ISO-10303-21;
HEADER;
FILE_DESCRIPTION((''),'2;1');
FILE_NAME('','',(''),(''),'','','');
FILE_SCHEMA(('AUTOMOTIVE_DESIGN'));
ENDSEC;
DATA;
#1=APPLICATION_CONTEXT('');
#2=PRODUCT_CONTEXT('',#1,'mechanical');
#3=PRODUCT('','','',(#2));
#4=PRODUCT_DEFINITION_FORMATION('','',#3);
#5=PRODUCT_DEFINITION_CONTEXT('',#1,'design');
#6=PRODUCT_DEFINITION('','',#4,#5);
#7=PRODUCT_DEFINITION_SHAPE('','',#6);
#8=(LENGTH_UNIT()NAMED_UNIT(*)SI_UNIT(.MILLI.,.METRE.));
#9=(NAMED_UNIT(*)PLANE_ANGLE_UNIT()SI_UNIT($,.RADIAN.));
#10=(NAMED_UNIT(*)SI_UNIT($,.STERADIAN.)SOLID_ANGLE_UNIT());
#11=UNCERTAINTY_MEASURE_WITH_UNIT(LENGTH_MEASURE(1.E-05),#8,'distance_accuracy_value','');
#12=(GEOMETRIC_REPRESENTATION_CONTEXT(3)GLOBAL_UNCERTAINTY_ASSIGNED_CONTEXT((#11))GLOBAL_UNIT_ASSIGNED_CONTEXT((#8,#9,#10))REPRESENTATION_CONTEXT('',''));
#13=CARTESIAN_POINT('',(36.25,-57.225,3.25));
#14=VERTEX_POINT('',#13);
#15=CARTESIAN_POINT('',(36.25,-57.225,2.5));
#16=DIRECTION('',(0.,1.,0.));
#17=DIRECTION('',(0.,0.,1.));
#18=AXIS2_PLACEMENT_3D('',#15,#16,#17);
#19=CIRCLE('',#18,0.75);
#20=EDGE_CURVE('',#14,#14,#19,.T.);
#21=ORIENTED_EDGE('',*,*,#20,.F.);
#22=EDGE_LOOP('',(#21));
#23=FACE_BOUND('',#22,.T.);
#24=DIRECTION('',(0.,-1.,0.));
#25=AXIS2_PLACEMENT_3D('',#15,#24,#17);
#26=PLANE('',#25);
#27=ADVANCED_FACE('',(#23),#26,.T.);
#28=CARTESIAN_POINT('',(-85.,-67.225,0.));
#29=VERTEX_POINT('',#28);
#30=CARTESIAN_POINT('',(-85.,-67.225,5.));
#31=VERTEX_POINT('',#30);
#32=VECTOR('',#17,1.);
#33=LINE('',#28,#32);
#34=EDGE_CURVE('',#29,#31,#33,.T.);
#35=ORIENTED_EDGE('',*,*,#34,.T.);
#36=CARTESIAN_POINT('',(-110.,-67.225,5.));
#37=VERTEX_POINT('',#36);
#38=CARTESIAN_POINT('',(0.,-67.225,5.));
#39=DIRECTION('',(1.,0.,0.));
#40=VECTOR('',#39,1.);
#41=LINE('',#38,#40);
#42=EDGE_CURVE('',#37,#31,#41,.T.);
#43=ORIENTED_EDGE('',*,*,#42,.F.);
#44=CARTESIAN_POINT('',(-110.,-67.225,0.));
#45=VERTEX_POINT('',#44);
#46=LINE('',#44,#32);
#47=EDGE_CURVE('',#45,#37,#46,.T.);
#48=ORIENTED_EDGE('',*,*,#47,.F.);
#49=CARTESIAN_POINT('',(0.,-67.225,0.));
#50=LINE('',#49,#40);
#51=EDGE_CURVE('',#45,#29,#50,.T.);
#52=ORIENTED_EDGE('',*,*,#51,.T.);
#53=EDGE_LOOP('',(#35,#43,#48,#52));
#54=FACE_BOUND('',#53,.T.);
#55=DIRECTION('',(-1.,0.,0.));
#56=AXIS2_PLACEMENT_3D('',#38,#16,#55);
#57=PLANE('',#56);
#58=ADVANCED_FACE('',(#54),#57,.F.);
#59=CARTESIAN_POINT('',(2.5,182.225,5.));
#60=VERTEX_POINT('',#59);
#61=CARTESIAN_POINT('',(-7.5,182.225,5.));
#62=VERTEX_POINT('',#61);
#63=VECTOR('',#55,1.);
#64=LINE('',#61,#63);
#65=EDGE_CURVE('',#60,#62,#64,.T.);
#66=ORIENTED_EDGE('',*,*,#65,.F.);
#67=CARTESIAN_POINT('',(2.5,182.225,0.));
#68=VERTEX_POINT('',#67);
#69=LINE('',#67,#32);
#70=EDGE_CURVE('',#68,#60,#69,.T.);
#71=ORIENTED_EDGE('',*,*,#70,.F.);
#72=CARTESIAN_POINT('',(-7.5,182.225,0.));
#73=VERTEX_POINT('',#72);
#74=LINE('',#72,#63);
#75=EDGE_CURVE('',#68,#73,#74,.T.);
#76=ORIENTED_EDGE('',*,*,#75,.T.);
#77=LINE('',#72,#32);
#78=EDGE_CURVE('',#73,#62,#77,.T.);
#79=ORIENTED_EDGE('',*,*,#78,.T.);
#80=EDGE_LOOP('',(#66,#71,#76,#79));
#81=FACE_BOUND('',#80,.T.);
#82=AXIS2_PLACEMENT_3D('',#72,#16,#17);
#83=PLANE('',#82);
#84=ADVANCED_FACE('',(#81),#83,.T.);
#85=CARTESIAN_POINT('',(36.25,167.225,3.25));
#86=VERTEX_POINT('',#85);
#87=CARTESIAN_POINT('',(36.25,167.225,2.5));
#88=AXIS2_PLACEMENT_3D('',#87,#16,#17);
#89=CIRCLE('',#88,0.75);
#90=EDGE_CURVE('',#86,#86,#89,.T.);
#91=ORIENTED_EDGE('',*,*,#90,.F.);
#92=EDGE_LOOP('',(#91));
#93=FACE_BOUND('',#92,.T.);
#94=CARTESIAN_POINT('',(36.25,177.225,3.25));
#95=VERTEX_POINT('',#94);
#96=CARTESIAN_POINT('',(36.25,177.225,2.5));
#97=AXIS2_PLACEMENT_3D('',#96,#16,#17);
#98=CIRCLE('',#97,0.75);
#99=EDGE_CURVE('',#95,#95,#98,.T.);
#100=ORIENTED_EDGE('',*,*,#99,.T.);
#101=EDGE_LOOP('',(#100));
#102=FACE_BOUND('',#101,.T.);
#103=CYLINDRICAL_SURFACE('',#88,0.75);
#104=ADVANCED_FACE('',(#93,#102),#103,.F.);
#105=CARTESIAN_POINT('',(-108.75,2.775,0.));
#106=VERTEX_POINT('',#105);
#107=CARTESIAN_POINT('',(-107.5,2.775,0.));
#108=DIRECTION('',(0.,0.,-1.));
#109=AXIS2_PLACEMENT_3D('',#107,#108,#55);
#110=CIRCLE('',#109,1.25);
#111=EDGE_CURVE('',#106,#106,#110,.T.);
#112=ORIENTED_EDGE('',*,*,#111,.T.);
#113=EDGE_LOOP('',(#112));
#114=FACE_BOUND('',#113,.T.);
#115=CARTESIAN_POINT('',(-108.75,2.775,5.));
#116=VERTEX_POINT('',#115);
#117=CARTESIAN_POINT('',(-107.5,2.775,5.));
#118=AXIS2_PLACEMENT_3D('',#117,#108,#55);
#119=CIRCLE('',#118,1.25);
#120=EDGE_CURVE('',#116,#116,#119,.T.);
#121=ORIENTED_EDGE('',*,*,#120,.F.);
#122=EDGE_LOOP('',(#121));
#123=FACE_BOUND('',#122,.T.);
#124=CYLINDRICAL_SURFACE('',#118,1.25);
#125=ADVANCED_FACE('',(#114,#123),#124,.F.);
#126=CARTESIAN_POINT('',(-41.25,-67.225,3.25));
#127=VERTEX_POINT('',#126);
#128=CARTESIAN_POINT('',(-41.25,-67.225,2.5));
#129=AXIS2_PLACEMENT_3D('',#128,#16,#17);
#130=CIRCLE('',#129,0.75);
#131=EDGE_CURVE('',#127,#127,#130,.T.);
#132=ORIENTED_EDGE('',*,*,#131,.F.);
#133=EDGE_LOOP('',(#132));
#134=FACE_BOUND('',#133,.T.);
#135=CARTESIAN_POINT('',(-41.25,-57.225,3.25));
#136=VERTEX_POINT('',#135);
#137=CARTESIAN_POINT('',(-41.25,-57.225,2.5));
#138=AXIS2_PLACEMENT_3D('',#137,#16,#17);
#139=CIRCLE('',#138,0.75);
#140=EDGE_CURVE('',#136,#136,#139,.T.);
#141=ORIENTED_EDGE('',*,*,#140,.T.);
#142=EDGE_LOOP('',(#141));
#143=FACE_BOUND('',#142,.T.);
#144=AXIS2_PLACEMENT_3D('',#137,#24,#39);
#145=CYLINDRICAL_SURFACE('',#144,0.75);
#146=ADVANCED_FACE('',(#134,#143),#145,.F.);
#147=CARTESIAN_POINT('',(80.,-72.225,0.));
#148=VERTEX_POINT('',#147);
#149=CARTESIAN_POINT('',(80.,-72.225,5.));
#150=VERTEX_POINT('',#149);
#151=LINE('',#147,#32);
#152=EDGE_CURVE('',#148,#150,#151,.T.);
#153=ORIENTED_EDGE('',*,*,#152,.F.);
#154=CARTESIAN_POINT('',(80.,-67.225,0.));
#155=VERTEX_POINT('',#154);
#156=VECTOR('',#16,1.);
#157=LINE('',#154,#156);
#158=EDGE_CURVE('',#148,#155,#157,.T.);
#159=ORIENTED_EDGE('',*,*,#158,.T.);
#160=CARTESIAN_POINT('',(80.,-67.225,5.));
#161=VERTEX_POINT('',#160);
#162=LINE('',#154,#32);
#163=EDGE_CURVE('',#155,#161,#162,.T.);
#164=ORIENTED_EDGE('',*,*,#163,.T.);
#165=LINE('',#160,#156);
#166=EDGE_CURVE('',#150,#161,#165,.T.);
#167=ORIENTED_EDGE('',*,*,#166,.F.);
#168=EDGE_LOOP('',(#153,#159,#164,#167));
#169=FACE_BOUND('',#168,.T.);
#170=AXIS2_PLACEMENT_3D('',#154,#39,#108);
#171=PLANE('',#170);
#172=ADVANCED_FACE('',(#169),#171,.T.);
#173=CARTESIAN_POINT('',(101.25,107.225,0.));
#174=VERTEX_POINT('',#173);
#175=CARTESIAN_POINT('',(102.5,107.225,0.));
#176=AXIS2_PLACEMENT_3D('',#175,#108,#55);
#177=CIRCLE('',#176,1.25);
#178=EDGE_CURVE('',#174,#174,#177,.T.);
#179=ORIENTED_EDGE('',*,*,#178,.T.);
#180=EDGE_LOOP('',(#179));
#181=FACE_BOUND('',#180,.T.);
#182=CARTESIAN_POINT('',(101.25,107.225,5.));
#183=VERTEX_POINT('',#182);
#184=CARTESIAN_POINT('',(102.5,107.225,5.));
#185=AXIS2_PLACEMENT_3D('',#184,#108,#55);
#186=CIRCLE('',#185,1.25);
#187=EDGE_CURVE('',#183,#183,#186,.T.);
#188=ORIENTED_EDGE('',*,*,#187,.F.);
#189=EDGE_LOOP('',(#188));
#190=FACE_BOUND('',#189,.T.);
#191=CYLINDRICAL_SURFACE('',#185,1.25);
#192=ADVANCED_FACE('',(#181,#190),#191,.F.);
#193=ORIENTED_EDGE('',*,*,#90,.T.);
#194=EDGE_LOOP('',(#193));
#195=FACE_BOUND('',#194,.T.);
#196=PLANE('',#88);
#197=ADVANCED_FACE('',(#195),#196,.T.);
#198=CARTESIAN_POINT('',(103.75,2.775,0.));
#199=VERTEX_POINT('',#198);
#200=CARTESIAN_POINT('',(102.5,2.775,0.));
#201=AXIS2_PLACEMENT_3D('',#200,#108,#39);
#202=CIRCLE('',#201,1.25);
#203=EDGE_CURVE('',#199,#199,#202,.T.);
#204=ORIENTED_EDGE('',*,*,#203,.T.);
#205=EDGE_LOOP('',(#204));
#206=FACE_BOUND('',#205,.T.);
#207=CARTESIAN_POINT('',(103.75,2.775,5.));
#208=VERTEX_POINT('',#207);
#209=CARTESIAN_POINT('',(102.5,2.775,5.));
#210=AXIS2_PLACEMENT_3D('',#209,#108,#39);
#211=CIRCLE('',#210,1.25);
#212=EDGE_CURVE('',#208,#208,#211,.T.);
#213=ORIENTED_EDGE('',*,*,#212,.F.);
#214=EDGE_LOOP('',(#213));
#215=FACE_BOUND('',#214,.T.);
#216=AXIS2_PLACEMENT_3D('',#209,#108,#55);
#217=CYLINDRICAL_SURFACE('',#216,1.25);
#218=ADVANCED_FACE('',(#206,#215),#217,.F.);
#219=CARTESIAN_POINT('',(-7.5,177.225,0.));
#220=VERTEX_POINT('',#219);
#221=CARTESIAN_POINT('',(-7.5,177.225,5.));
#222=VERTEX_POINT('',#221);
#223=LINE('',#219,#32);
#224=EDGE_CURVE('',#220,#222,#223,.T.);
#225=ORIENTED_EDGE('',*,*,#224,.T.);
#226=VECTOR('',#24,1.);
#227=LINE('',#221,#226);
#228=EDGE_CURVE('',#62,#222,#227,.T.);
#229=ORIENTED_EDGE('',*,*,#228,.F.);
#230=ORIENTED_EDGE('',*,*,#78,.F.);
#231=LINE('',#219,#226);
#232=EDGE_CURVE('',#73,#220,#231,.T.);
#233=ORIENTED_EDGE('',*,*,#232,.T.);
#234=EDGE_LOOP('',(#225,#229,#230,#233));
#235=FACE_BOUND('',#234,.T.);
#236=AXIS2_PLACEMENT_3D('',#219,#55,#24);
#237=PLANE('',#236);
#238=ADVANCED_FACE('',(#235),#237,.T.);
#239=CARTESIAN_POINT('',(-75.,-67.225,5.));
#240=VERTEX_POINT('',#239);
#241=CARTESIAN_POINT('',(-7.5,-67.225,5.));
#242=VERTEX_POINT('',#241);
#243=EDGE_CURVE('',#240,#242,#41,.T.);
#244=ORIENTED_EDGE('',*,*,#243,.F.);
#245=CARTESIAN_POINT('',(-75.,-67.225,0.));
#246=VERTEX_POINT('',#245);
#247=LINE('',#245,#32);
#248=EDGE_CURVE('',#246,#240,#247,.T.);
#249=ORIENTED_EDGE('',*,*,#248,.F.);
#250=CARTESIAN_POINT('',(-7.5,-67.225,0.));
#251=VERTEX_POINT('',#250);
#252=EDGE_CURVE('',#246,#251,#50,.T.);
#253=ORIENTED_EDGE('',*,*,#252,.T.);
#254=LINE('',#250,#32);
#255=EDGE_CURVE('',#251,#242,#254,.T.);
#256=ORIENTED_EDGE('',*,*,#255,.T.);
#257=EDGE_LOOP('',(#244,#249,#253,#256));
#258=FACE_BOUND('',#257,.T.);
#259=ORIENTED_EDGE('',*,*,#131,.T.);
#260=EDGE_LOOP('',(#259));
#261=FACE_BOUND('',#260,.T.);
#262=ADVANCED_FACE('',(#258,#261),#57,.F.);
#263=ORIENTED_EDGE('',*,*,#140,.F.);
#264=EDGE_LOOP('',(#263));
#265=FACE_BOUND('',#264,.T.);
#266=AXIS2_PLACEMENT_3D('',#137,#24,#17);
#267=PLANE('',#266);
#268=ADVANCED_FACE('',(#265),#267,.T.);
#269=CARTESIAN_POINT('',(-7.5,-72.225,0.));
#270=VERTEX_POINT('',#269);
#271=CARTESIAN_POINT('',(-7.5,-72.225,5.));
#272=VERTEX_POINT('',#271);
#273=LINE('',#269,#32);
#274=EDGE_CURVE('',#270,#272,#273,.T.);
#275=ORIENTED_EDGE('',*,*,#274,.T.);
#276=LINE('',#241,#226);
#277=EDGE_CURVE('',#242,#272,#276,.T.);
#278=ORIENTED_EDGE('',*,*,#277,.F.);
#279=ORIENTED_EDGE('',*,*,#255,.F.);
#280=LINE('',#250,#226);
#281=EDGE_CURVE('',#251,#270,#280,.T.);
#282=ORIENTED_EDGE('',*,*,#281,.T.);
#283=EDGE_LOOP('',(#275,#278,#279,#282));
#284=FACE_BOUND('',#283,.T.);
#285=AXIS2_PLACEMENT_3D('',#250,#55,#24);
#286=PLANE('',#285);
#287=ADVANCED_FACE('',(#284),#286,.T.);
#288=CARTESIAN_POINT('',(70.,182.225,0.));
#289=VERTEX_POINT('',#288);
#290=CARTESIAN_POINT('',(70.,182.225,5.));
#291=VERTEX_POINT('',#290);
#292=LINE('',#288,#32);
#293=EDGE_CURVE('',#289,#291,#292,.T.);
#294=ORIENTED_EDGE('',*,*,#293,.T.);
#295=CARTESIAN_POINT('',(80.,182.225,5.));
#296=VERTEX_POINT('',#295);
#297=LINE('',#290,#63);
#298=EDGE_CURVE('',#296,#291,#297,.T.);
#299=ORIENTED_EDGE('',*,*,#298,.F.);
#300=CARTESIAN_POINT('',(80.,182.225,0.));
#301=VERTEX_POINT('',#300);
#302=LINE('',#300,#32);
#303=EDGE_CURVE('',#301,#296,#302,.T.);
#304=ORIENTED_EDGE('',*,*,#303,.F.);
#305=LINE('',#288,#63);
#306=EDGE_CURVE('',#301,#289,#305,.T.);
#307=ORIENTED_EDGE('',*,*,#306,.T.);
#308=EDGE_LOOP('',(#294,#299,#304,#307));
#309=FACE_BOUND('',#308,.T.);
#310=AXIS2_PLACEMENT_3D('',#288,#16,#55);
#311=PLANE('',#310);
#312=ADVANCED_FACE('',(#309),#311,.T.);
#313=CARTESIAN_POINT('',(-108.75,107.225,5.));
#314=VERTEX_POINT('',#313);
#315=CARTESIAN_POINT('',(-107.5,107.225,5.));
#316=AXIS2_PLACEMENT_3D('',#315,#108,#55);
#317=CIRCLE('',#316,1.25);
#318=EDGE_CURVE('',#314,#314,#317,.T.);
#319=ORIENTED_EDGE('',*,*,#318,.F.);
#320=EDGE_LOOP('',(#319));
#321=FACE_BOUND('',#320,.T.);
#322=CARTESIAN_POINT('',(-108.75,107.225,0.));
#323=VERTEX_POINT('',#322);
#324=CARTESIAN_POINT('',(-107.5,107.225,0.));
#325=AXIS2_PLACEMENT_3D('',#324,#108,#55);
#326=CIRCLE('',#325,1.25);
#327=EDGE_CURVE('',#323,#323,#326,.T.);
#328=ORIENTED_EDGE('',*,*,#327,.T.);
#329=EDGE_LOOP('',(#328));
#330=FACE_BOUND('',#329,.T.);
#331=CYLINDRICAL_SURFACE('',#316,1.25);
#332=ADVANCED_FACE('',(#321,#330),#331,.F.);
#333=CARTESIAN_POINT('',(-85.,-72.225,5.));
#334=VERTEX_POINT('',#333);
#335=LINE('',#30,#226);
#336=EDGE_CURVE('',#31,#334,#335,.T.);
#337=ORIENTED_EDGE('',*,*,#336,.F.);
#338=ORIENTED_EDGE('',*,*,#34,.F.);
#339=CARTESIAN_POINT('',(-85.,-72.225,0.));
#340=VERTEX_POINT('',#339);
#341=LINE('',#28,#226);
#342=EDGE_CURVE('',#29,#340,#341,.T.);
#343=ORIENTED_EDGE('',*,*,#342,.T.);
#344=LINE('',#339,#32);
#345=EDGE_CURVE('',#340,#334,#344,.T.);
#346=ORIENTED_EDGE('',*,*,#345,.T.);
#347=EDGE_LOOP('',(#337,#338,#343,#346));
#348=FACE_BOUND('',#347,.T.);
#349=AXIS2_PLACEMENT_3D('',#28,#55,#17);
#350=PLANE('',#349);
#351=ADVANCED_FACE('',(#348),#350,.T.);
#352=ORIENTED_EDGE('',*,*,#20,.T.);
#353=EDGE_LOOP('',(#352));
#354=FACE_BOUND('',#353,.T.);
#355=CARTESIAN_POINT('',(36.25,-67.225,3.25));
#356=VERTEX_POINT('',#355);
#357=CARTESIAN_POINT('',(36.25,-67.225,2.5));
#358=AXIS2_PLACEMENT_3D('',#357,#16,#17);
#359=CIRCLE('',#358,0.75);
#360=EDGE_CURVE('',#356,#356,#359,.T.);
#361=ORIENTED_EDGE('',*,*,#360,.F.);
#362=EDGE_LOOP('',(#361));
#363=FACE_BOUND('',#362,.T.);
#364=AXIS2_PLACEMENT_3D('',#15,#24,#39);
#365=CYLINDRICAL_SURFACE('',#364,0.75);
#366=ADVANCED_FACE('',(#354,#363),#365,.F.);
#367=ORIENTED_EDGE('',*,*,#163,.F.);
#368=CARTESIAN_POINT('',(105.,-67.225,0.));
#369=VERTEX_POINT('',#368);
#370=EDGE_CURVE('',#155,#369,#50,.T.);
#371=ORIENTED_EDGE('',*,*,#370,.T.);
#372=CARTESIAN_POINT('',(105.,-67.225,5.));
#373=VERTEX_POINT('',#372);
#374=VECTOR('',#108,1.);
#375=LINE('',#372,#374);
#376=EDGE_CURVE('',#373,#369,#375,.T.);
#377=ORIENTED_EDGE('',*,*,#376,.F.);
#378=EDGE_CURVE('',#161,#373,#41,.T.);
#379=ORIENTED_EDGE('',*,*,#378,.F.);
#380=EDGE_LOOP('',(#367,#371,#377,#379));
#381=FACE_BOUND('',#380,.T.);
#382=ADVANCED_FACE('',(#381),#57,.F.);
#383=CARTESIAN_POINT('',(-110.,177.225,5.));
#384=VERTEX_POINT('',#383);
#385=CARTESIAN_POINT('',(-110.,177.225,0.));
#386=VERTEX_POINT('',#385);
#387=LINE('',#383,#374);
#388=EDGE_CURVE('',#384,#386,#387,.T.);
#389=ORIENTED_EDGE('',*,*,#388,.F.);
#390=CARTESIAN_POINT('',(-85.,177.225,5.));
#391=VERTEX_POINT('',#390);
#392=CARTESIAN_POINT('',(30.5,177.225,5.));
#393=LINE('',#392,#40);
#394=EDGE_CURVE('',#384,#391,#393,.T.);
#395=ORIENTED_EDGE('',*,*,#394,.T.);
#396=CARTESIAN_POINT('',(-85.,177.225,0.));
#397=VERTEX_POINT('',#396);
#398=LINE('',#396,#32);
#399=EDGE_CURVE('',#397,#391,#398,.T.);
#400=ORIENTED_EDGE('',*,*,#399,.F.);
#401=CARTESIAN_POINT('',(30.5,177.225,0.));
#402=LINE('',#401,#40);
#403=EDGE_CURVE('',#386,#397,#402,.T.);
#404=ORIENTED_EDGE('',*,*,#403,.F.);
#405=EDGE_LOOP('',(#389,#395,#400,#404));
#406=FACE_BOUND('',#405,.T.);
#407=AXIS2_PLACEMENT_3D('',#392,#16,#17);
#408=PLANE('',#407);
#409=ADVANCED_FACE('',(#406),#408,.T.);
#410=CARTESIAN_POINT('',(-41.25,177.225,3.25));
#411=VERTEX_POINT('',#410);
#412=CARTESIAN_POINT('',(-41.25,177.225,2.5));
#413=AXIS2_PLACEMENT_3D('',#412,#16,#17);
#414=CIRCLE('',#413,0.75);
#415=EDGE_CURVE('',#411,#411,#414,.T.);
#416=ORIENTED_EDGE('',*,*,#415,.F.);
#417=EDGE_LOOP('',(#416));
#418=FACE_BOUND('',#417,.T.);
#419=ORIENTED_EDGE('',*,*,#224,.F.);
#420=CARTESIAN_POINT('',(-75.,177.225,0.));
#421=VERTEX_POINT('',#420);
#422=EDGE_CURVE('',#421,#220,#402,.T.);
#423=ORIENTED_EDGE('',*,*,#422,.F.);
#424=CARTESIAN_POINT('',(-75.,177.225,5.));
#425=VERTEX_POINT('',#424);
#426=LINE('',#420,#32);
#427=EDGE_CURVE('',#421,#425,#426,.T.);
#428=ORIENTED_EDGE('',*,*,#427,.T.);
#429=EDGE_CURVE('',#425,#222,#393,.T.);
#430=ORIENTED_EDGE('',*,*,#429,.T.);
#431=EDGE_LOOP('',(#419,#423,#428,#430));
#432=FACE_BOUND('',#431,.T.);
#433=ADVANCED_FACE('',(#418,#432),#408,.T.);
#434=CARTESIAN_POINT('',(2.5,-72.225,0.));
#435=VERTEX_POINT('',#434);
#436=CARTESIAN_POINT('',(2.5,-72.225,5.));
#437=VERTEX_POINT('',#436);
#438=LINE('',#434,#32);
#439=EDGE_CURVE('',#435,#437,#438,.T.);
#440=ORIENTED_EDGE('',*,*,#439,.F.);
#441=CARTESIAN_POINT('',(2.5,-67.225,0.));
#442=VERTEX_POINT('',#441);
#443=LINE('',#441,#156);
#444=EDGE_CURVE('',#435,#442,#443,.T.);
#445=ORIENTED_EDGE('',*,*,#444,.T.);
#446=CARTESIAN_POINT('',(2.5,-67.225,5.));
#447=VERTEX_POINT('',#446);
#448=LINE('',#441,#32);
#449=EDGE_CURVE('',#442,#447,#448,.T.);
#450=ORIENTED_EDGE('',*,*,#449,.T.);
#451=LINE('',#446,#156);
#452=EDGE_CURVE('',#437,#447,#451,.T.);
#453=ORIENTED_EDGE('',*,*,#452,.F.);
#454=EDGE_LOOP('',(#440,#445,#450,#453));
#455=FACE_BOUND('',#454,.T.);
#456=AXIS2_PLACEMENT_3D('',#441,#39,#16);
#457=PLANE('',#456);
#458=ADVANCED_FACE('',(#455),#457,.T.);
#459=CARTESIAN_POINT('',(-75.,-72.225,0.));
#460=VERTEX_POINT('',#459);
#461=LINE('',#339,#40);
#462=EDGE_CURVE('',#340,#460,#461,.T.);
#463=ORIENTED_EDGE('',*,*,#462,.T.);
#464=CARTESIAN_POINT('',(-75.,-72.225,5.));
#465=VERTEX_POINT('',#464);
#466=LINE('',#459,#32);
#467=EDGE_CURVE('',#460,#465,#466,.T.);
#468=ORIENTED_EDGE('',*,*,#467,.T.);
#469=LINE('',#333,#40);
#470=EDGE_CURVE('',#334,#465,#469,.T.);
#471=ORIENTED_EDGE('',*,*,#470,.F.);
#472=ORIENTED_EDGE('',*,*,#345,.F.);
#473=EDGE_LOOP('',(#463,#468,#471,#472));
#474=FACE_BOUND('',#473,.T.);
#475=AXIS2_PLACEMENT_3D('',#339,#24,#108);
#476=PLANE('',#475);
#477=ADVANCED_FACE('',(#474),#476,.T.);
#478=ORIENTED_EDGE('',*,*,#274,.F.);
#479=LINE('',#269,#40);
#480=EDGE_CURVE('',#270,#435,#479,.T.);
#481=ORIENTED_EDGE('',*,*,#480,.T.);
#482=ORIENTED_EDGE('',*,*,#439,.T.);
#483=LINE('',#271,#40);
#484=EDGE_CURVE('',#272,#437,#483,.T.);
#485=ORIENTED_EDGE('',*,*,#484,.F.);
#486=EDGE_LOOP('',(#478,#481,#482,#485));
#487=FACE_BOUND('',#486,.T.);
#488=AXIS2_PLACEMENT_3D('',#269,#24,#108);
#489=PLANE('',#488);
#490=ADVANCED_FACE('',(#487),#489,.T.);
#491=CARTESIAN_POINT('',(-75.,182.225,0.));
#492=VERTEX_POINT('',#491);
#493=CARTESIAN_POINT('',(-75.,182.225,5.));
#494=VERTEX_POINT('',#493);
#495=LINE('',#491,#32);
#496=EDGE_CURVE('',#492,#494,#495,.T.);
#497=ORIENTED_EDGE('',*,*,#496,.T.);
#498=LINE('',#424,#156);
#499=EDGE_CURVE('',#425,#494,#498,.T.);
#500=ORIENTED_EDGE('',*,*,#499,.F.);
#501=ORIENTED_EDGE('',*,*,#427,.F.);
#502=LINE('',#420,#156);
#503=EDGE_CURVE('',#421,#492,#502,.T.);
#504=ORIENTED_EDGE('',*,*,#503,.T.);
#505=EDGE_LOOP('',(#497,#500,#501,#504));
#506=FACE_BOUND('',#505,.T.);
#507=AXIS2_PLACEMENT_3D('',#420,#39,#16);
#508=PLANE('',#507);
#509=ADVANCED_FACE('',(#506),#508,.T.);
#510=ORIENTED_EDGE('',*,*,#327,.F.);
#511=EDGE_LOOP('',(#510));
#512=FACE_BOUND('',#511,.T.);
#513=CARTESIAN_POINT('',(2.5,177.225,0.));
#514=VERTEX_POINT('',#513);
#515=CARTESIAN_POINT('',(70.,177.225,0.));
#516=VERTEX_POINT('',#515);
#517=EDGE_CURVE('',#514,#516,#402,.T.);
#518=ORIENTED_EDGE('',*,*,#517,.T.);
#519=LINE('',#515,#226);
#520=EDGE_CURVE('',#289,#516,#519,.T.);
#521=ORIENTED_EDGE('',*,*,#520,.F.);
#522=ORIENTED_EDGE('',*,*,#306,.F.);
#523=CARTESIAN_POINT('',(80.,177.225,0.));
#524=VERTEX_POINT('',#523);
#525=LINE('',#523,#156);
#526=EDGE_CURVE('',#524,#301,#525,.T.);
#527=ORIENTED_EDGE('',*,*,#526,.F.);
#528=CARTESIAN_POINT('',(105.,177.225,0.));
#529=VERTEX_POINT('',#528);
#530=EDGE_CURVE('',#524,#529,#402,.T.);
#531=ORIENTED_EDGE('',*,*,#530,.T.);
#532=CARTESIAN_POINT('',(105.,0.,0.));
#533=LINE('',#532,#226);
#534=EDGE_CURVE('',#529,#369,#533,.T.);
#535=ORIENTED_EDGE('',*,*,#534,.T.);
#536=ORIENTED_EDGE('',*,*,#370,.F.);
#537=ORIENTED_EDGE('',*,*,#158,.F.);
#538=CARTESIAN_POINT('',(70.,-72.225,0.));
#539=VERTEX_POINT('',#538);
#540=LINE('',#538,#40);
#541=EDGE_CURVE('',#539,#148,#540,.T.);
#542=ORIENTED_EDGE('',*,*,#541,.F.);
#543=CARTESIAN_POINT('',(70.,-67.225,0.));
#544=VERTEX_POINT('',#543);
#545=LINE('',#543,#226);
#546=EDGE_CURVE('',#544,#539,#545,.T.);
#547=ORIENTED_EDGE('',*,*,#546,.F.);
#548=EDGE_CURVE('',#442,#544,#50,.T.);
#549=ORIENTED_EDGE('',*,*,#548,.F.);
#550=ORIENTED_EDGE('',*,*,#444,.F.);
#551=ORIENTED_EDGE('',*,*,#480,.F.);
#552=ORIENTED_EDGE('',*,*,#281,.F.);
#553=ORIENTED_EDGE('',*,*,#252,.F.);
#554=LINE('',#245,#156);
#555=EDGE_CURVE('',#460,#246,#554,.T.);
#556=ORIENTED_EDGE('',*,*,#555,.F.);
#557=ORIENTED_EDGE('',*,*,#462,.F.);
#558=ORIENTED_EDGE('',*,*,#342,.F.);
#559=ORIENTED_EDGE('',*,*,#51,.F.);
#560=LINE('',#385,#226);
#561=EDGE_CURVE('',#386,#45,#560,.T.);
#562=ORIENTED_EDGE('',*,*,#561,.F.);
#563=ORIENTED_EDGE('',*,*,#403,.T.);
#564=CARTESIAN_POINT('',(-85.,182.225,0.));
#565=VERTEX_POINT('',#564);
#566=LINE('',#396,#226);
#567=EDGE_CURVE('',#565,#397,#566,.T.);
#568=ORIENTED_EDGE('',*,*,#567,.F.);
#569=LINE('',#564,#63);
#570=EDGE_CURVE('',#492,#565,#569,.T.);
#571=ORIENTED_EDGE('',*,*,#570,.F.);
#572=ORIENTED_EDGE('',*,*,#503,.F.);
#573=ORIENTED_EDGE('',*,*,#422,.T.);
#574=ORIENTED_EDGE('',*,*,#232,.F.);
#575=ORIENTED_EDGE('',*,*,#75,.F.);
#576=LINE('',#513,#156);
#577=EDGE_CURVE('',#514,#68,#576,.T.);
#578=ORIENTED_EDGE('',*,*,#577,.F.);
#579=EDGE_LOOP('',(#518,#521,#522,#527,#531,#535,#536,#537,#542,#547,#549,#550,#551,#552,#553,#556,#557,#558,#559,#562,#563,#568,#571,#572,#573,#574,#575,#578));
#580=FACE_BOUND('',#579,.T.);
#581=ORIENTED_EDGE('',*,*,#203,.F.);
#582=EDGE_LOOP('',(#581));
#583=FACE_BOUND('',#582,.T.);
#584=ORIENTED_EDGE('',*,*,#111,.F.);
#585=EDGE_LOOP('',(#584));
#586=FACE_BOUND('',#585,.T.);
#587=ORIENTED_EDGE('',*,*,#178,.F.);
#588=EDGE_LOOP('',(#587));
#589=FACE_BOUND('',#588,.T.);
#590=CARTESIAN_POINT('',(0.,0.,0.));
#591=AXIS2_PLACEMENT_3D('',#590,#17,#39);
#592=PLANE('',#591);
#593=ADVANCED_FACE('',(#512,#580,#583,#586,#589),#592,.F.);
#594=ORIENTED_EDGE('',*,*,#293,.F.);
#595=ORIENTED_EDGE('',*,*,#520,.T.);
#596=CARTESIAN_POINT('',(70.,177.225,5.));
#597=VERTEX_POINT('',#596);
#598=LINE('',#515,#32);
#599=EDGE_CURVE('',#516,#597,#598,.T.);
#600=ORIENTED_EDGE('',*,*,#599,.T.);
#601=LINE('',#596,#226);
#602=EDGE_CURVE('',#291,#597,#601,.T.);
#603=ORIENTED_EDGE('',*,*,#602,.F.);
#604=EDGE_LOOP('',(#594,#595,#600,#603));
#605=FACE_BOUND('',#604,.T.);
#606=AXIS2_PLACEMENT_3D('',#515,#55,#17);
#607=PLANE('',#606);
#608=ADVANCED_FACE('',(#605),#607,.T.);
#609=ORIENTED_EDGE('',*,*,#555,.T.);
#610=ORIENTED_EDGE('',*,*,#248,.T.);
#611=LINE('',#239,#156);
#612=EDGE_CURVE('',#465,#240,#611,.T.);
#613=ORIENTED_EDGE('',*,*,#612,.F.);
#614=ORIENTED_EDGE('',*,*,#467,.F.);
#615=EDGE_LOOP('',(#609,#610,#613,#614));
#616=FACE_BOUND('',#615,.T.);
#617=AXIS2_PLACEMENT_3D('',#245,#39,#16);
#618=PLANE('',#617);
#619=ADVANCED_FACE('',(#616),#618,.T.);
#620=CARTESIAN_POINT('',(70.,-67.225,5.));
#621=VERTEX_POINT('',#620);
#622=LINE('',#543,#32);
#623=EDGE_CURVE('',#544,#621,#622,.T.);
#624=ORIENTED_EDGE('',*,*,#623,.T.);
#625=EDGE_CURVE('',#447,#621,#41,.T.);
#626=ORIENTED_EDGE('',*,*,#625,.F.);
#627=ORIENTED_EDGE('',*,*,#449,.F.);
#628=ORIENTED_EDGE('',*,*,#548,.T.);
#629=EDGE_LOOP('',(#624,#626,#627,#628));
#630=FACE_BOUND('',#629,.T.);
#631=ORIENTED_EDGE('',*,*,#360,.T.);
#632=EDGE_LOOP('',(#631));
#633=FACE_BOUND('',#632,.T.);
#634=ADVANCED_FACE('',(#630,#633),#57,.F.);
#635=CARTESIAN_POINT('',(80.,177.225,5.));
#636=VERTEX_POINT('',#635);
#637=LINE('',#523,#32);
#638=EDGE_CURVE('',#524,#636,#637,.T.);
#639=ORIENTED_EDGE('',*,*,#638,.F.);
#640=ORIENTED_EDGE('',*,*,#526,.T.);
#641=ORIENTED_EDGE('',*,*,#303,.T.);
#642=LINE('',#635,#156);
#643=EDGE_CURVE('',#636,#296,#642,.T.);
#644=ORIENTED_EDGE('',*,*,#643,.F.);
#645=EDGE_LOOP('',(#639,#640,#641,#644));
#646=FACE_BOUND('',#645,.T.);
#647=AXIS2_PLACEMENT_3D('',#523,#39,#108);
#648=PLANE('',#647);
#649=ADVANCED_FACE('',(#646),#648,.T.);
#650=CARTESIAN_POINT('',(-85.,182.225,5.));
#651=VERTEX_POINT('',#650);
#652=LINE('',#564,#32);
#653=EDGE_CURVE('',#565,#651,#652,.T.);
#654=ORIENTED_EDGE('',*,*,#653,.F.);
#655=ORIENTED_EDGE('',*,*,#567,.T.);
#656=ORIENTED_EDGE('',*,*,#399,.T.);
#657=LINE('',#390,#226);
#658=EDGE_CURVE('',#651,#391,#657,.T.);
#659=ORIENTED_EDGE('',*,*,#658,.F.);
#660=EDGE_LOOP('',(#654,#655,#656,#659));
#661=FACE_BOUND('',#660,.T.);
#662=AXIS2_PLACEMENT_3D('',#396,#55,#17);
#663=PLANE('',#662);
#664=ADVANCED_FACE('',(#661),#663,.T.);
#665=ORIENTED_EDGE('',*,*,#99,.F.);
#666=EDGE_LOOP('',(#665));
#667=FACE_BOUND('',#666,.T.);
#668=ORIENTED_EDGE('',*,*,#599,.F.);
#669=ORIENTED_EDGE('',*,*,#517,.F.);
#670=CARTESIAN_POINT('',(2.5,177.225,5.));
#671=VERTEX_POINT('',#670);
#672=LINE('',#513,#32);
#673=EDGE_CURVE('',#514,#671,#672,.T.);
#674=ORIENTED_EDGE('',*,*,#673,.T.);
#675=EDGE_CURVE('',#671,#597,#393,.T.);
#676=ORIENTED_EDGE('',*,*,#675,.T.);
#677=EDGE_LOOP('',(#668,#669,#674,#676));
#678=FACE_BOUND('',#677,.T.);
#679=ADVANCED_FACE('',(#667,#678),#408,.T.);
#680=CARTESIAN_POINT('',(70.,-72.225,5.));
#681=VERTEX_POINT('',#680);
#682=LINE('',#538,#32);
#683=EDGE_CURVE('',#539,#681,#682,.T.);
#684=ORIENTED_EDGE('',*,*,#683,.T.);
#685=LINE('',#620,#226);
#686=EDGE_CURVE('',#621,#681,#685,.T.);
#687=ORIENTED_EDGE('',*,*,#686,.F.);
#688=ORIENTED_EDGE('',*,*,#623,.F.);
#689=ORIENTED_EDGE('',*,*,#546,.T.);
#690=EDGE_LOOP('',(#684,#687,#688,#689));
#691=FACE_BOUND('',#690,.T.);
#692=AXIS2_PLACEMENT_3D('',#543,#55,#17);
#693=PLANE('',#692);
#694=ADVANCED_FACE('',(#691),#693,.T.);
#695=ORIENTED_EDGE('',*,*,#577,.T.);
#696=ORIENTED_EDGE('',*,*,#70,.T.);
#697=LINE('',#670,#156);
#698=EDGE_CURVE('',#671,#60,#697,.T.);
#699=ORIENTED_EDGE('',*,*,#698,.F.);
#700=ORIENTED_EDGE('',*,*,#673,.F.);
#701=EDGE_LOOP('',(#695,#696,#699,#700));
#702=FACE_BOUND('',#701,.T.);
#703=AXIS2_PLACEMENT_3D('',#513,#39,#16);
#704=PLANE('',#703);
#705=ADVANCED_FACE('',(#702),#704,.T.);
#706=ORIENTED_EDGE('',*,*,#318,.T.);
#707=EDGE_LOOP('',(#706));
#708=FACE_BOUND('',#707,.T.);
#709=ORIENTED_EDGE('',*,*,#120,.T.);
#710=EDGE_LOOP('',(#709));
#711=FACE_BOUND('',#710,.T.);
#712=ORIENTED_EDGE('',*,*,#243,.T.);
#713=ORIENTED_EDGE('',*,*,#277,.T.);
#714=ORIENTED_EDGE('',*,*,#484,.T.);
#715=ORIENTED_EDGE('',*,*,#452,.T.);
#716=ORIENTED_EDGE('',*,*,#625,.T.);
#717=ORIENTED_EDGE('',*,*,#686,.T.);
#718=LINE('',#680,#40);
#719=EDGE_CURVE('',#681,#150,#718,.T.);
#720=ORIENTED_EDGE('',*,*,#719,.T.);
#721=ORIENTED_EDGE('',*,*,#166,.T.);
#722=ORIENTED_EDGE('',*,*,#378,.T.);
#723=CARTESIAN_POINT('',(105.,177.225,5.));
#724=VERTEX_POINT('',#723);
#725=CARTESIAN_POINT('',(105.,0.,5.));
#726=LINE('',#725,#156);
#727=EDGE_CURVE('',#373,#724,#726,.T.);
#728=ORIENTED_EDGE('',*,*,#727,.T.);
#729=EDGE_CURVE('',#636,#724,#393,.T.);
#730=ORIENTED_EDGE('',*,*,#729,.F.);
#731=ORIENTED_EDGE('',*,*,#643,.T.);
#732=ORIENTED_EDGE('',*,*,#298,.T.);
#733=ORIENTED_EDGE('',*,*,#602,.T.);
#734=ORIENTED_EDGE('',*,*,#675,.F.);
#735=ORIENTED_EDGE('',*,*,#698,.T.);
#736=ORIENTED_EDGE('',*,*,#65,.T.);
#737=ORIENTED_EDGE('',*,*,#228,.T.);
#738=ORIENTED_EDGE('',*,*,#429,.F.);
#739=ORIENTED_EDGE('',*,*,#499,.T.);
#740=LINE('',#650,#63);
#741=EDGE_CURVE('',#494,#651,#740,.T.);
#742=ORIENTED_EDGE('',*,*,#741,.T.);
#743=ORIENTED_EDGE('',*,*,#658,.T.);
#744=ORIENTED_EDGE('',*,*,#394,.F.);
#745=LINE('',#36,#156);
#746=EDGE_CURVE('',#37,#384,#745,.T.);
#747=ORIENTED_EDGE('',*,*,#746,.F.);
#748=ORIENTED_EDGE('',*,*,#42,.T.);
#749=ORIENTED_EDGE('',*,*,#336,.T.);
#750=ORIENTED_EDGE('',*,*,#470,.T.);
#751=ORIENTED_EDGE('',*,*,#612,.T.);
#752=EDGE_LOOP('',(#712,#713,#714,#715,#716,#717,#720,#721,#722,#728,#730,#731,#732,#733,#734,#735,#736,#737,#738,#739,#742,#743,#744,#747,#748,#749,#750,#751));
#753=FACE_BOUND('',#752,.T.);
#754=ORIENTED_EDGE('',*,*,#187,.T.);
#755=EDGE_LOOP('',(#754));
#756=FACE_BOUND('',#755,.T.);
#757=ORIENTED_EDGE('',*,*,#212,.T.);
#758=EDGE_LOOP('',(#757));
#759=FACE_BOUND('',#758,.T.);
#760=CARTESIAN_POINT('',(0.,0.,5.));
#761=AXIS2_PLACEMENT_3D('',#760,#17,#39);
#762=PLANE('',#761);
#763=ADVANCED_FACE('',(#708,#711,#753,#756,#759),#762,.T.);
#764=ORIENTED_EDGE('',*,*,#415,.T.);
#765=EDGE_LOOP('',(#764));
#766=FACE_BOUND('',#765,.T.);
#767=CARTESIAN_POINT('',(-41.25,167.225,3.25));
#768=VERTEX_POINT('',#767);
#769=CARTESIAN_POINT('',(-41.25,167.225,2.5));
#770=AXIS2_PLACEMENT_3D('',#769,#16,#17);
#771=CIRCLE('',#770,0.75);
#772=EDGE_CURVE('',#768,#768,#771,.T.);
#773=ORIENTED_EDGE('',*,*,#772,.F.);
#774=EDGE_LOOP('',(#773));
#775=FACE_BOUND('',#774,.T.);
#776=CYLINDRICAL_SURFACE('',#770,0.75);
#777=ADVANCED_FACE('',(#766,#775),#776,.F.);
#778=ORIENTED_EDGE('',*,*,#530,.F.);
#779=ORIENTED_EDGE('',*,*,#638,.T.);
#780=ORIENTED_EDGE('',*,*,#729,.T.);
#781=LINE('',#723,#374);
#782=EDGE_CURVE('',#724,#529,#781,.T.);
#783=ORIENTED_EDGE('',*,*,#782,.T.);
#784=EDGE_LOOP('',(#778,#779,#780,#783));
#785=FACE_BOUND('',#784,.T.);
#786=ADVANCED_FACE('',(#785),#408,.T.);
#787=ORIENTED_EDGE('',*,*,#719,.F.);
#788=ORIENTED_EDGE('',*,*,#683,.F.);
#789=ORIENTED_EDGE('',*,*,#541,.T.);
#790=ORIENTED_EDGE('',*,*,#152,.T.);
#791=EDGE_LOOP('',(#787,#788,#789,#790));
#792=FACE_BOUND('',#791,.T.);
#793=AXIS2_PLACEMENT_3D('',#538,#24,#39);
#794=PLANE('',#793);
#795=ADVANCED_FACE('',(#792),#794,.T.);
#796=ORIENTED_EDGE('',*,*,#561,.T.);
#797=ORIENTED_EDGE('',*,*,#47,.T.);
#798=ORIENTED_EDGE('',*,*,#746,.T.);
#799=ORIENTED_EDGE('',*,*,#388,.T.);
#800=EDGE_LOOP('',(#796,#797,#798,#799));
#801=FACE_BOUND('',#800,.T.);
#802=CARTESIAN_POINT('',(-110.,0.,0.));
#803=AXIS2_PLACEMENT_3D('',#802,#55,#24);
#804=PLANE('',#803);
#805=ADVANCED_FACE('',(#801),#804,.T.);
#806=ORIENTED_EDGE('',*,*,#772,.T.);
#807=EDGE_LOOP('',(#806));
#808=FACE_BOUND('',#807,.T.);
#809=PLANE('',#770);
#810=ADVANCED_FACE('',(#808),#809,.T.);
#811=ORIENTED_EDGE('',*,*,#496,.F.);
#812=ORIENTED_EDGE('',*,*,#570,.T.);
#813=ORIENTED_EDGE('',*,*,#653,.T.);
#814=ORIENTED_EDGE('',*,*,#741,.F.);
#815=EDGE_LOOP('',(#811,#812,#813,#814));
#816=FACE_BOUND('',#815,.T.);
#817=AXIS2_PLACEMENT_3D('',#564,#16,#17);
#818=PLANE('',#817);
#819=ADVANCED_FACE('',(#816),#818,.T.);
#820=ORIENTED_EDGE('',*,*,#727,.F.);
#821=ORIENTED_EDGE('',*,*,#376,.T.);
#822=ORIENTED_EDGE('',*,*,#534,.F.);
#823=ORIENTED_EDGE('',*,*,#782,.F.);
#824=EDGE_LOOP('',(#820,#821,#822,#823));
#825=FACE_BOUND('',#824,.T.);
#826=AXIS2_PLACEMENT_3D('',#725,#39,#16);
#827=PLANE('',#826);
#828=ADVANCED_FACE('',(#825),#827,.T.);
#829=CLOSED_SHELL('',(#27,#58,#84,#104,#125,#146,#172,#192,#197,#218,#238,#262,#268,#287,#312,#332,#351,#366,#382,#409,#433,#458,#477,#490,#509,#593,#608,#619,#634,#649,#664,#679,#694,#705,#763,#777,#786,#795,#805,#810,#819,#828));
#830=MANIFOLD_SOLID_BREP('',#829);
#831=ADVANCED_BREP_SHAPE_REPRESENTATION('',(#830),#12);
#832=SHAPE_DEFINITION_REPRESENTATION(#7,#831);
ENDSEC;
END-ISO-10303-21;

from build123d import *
from build123d.topology import SkipClean

# Parameters (mm, degrees)
SKIZZE1_W                       = 5
SKIZZE1_H                       = 5
SKIZZE1_W_2                     = 15
AUFSATZ_LINEAR_AUSTRAGEN1_DEPTH = 5
SKIZZE2_R                       = 2.75
SCHNITT_LINEAR_AUSTRAGEN1_DEPTH = 128.539996178
SCHNITT_LINEAR_AUSTRAGEN2_DEPTH = 128.539996178
SKIZZE4_R                       = 7.5
SCHNITT_LINEAR_AUSTRAGEN3_DEPTH = 128.539996178
SKIZZE5_R                       = 0.75
SKIZZE5_R_2                     = 6
SENSORS_DEPTH                   = 128.539996178
AUFSATZ_LINEAR_AUSTRAGEN2_DEPTH = 5
SKIZZE7_R                       = 1.25
SCHNITT_LINEAR_AUSTRAGEN5_DEPTH = 239.81729549
SKETCH1_W                       = 69.5
SKETCH1_H                       = 110
BOSS_EXTRUDE1_DEPTH             = 5
SKIZZE9_R                       = 0.75
SKIZZE9_R_2                     = 6
DISCRETECHANNEL_DEPTH           = 239.81729549
SKIZZE10_R                      = 0.75
SKIZZE10_R_2                    = 6
CONTCHANNEL_DEPTH               = 239.81729549
BOSS_EXTRUDE2_DEPTH             = 5
SKIZZE8_R                       = 0.75
SKIZZE8_R_2                     = 7.5
STEPDOWNCONVERTER_DEPTH         = 239.81729549
SKETCH3_R                       = 0.75
SKETCH3_R_2                     = 5
BBB_DEPTH                       = 5
BOSS_EXTRUDE3_DEPTH             = 5
SKETCH5_W                       = 55
SKETCH5_H                       = 244.45
CUT_EXTRUDE2_DEPTH              = 5
SKETCH6_R                       = 5
CUT_EXTRUDE3_DEPTH              = 5
SKETCH7_W                       = 5
SKETCH7_H                       = 10
BOSS_EXTRUDE4_DEPTH             = 5
SKETCH8_W                       = 10
SKETCH8_H                       = 5
BOSS_EXTRUDE5_DEPTH             = 5
BOSS_EXTRUDE6_START             = -5
SKETCH9_W                       = 210
SKETCH9_H                       = 244.45
SKETCH9_R                       = 2.75
SKETCH9_R_2                     = 7.5
BOSS_EXTRUDE6_DEPTH             = 5
SKETCH10_R                      = 1.25
CUT_EXTRUDE4_DEPTH              = 5
SKETCH11_R                      = 1.25
CUT_EXTRUDE5_DEPTH              = 211.370983325
SKETCH12_R                      = 0.75
CUT_EXTRUDE6_DEPTH              = 10
SKETCH13_W                      = 66.883325803
SKETCH13_H                      = 19.006877893
SKETCH13_W_2                    = 28.314677108
SKETCH13_H_2                    = 100.605818773
SKETCH13_W_3                    = 44.298538928
SKETCH13_H_3                    = 29.20603568
BOSS_EXTRUDE7_DEPTH             = 5
SKETCH14_W                      = 5
SKETCH14_H                      = 244.45
BOSS_EXTRUDE8_DEPTH             = 5
SKETCH15_R                      = 1.25
CUT_EXTRUDE7_DEPTH              = 5
SKETCH16_R                      = 1.25
BOSS_EXTRUDE9_DEPTH             = 5


with BuildPart() as part:
    # Skizze1 → Aufsatz-Linear austragen1 (new body)
    with BuildSketch(Plane.XY):
        Polygon((55, 67.225), (75, 67.225), (75, 72.225), (85, 72.225), (85, 67.225), (100, 67.225), (100, 47.225), (105, 47.225), (105, 37.225), (100, 37.225), (100, -37.225), (105, -37.225), (105, -47.225), (100, -47.225), (100, -67.225), (-100, -67.225), (-100, -47.225), (-105, -47.225), (-105, -37.225), (-100, -37.225), (-100, 37.225), (-105, 37.225), (-105, 47.225), (-100, 47.225), (-100, 67.225), (-85, 67.225), (-85, 72.225), (-75, 72.225), (-75, 67.225), (45, 67.225), (45, 72.225), (55, 72.225), align=None)
        with Locations((13, -40.055)):
            Rectangle(SKIZZE1_W, SKIZZE1_H, mode=Mode.SUBTRACT)
        with Locations((53, -40.055)):
            Rectangle(SKIZZE1_W, SKIZZE1_H, mode=Mode.SUBTRACT)
        with Locations((33, -40.055)):
            Rectangle(SKIZZE1_W_2, SKIZZE1_H, mode=Mode.SUBTRACT)
    extrude(amount=AUFSATZ_LINEAR_AUSTRAGEN1_DEPTH)

    # Skizze2 → Schnitt-Linear austragen1 (cut, through all)
    with BuildSketch(Plane.XY.offset(5)):
        with Locations((-59.5, 4.075)):
            Circle(SKIZZE2_R)
        with Locations((-24.5, -11.925)):
            Circle(SKIZZE2_R)
    extrude(amount=-SCHNITT_LINEAR_AUSTRAGEN1_DEPTH, mode=Mode.SUBTRACT)

    # Skizze3 → Schnitt-Linear austragen2 (cut, through all)
    with BuildSketch(Plane.XY.offset(5)):
        with BuildLine():
            Line((25, -17.555), (41, -17.555))
            ThreePointArc((41, -17.555), (42.414213562, -18.140786438), (43, -19.555))
            Line((43, -19.555), (43, -35.555))
            ThreePointArc((43, -35.555), (42.414213562, -36.969213562), (41, -37.555))
            Line((41, -37.555), (37, -37.555))
            Line((37, -37.555), (29, -37.555))
            Line((29, -37.555), (25, -37.555))
            ThreePointArc((25, -37.555), (23.585786438, -36.969213562), (23, -35.555))
            Line((23, -35.555), (23, -19.555))
            ThreePointArc((23, -19.555), (23.585786438, -18.140786438), (25, -17.555))
        make_face()
        with BuildLine():
            Line((-66.5, 54.225), (-66.5, 35.225))
            ThreePointArc((-66.5, 35.225), (-67.378679656, 33.103679656), (-69.5, 32.225))
            Line((-69.5, 32.225), (-88.5, 32.225))
            ThreePointArc((-88.5, 32.225), (-90.621320344, 33.103679656), (-91.5, 35.225))
            Line((-91.5, 35.225), (-91.5, 54.225))
            ThreePointArc((-91.5, 54.225), (-90.621320344, 56.346320344), (-88.5, 57.225))
            Line((-88.5, 57.225), (-69.5, 57.225))
            ThreePointArc((-69.5, 57.225), (-67.378679656, 56.346320344), (-66.5, 54.225))
        make_face()
        with BuildLine():
            Line((4.5, 57.225), (-14.5, 57.225))
            ThreePointArc((-14.5, 57.225), (-16.621320344, 56.346320344), (-17.5, 54.225))
            Line((-17.5, 54.225), (-17.5, 35.225))
            ThreePointArc((-17.5, 35.225), (-16.621320344, 33.103679656), (-14.5, 32.225))
            Line((-14.5, 32.225), (4.5, 32.225))
            ThreePointArc((4.5, 32.225), (6.621320344, 33.103679656), (7.5, 35.225))
            Line((7.5, 35.225), (7.5, 54.225))
            ThreePointArc((7.5, 54.225), (6.621320344, 56.346320344), (4.5, 57.225))
        make_face()
    extrude(amount=-SCHNITT_LINEAR_AUSTRAGEN2_DEPTH, mode=Mode.SUBTRACT)

    # Skizze4 → Schnitt-Linear austragen3 (cut, through all)
    with BuildSketch(Plane.XY.offset(5)):
        with Locations((-80.5, -30.925)):
            Circle(SKIZZE4_R)
        with Locations((-80.5, -11.925)):
            Circle(SKIZZE4_R)
        with Locations(Location((-80.5, -49.925, 0), (0, 0, 180))):
            Circle(SKIZZE4_R)
    extrude(amount=-SCHNITT_LINEAR_AUSTRAGEN3_DEPTH, mode=Mode.SUBTRACT)

    # Skizze5 → Sensors (cut, through all)
    with BuildSketch(Plane.XY.offset(5)):
        with Locations((-8, -45.225)):
            Circle(SKIZZE5_R)
        with Locations((-8, -3.225)):
            Circle(SKIZZE5_R)
        with Locations((83, -12.225)):
            Circle(SKIZZE5_R)
        with Locations((-15, -56.225)):
            Circle(SKIZZE5_R_2)
        with Locations((0, -56.225)):
            Circle(SKIZZE5_R_2)
        with Locations((15, -56.225)):
            Circle(SKIZZE5_R_2)
        with Locations((30, -56.225)):
            Circle(SKIZZE5_R_2)
        with Locations((45, -56.225)):
            Circle(SKIZZE5_R_2)
        with Locations((60, -56.225)):
            Circle(SKIZZE5_R_2)
        with Locations((75, -56.225)):
            Circle(SKIZZE5_R_2)
        with Locations((90, -56.225)):
            Circle(SKIZZE5_R_2)
    extrude(amount=-SENSORS_DEPTH, mode=Mode.SUBTRACT)

    # Skizze6 → Aufsatz-Linear austragen2 (add)
    with BuildSketch(Plane(origin=(0, 0, 0), x_dir=(-1, 0, 0), z_dir=(0, 0, -1))):
        Polygon((160, 47.225), (160, 37.225), (160, -37.225), (160, -47.225), (160, -67.225), (100, -67.225), (100, 67.225), (-30.5, 67.225), (-30.5, 177.225), (160, 177.225), (160, 67.225), align=None)
    extrude(amount=-AUFSATZ_LINEAR_AUSTRAGEN2_DEPTH)

    # Skizze7 → Schnitt-Linear austragen5 (cut, through all)
    with BuildSketch(Plane(origin=(0, 0, 0), x_dir=(-1, 0, 0), z_dir=(0, 0, -1))):
        with Locations((71.5, 32.775)):
            Circle(SKIZZE7_R)
        with Locations((96.5, 32.775)):
            Circle(SKIZZE7_R)
        with Locations((46.5, 32.775)):
            Circle(SKIZZE7_R)
    extrude(amount=-SCHNITT_LINEAR_AUSTRAGEN5_DEPTH, mode=Mode.SUBTRACT)

    # Sketch1 → Boss-Extrude1 (add)
    with BuildSketch(Plane.XY.offset(5)):
        with Locations((65.25, 122.225)):
            Rectangle(SKETCH1_W, SKETCH1_H)
    extrude(amount=-BOSS_EXTRUDE1_DEPTH)

    # Skizze9 → DiscreteChannel (cut, through all)
    with BuildSketch(Plane.XY.offset(5)):
        with Locations((8, 71.515)):
            Circle(SKIZZE9_R)
        with Locations(Location((69, 71.515, 0), (0, 0, 180))):
            Circle(SKIZZE9_R)
        with Locations(Location((8, 10.515, 0), (0, 0, 180))):
            Circle(SKIZZE9_R)
        with Locations((69, 10.515)):
            Circle(SKIZZE9_R)
        with Locations((-2, 5.015)):
            Circle(SKIZZE9_R_2)
        with Locations((-2, 29.015)):
            Circle(SKIZZE9_R_2)
        with Locations((-2, 53.015)):
            Circle(SKIZZE9_R_2)
        with Locations((-2, 77.015)):
            Circle(SKIZZE9_R_2)
    extrude(amount=-DISCRETECHANNEL_DEPTH, mode=Mode.SUBTRACT)

    # Skizze10 → ContChannel (cut, through all)
    with BuildSketch(Plane.XY.offset(5)):
        with Locations((-4, 136.225)):
            Circle(SKIZZE10_R)
        with Locations(Location((-4, 94.225, 0), (0, 0, 180))):
            Circle(SKIZZE10_R)
        with Locations(Location((-96, 136.225, 0), (0, 0, 180))):
            Circle(SKIZZE10_R)
        with Locations((-96, 94.225)):
            Circle(SKIZZE10_R)
        with Locations((-72.499999267, 166.225)):
            Circle(SKIZZE10_R_2)
        with Locations((-57.499999267, 166.225)):
            Circle(SKIZZE10_R_2)
        with Locations((-42.499999267, 166.225)):
            Circle(SKIZZE10_R_2)
        with Locations((-27.499999267, 166.225)):
            Circle(SKIZZE10_R_2)
        with Locations((-27.499999267, 151.225)):
            Circle(SKIZZE10_R_2)
        with Locations((-42.499999267, 151.225)):
            Circle(SKIZZE10_R_2)
        with Locations((-57.499999267, 151.225)):
            Circle(SKIZZE10_R_2)
        with Locations((-72.499999267, 151.225)):
            Circle(SKIZZE10_R_2)
    extrude(amount=-CONTCHANNEL_DEPTH, mode=Mode.SUBTRACT)

    # Sketch2 → Boss-Extrude2 (add)
    with SkipClean():  # the faces are left unmerged after this step: merging them gives an invalid solid
        with BuildSketch(Plane.XY.offset(5)):
            with BuildLine():
                Line((-14.5, 32.225), (-7.069112348, 32.225))
                ThreePointArc((-7.069112348, 32.225), (-2, 35.015), (3.069112348, 32.225))
                Line((3.069112348, 32.225), (4.5, 32.225))
                ThreePointArc((4.5, 32.225), (6.621320344, 33.103679656), (7.5, 35.225))
                Line((7.5, 35.225), (7.5, 54.225))
                ThreePointArc((7.5, 54.225), (6.621320344, 56.346320344), (4.5, 57.225))
                Line((4.5, 57.225), (2.275032164, 57.225))
                ThreePointArc((2.275032164, 57.225), (-2, 47.015), (-6.275032164, 57.225))
                Line((-6.275032164, 57.225), (-14.5, 57.225))
                ThreePointArc((-14.5, 57.225), (-16.621320344, 56.346320344), (-17.5, 54.225))
                Line((-17.5, 54.225), (-17.5, 35.225))
                ThreePointArc((-17.5, 35.225), (-16.621320344, 33.103679656), (-14.5, 32.225))
            make_face()
        extrude(amount=-BOSS_EXTRUDE2_DEPTH)

    # Skizze8 → StepDownConverter (cut, through all)
    with SkipClean():  # the faces are left unmerged after this step: merging them gives an invalid solid
        with BuildSketch(Plane.XY.offset(5)):
            with Locations((62.5, 153.225)):
                Circle(SKIZZE8_R)
            with Locations(Location((93.5, 153.225, 0), (0, 0, 180))):
                Circle(SKIZZE8_R)
            with Locations(Location((62.5, 100.225, 0), (0, 0, 180))):
                Circle(SKIZZE8_R)
            with Locations((93.5, 100.225)):
                Circle(SKIZZE8_R)
            with Locations((78, 86.225)):
                Circle(SKIZZE8_R_2)
            with Locations(Location((78, 167.225, 0), (0, 0, 180))):
                Circle(SKIZZE8_R_2)
        extrude(amount=-STEPDOWNCONVERTER_DEPTH, mode=Mode.SUBTRACT)

    # Sketch3 → BBB (cut)
    with SkipClean():  # the faces are left unmerged after this step: merging them gives an invalid solid
        with BuildSketch(Plane.XY.offset(5)):
            with Locations((21.85, 147.68)):
                Circle(SKETCH3_R)
            with Locations((87.89, 102.59)):
                Circle(SKETCH3_R)
            with Locations(Location((87.89, 150.86, 0), (0, 0, 180))):
                Circle(SKETCH3_R)
            with Locations(Location((21.85, 105.77, 0), (0, 0, 180))):
                Circle(SKETCH3_R)
            with Locations((13, 167.225)):
                Circle(SKETCH3_R_2)
            with Locations((28, 167.225)):
                Circle(SKETCH3_R_2)
            with Locations((43, 167.225)):
                Circle(SKETCH3_R_2)
            with Locations((58, 167.225)):
                Circle(SKETCH3_R_2)
            with Locations(Location((13, 86.225, 0), (0, 0, 180))):
                Circle(SKETCH3_R_2)
        extrude(amount=-BBB_DEPTH, mode=Mode.SUBTRACT)

    # Sketch4 → Boss-Extrude3 (add)
    with SkipClean():  # the faces are left unmerged after this step: merging them gives an invalid solid
        with BuildSketch(Plane.XY.offset(5)):
            with BuildLine():
                Line((-88.5, 32.225), (-72.622497216, 32.225))
                ThreePointArc((-72.622497216, 32.225), (-71.5, 34.025), (-70.377502784, 32.225))
                Line((-70.377502784, 32.225), (-69.5, 32.225))
                ThreePointArc((-69.5, 32.225), (-67.378679656, 33.103679656), (-66.5, 35.225))
                Line((-66.5, 35.225), (-66.5, 54.225))
                ThreePointArc((-66.5, 54.225), (-67.378679656, 56.346320344), (-69.5, 57.225))
                Line((-69.5, 57.225), (-88.5, 57.225))
                ThreePointArc((-88.5, 57.225), (-90.621320344, 56.346320344), (-91.5, 54.225))
                Line((-91.5, 54.225), (-91.5, 35.225))
                ThreePointArc((-91.5, 35.225), (-90.621320344, 33.103679656), (-88.5, 32.225))
            make_face()
        extrude(amount=-BOSS_EXTRUDE3_DEPTH)

    # Sketch5 → Cut-Extrude2 (cut)
    with SkipClean():  # the faces are left unmerged after this step: merging them gives an invalid solid
        with BuildSketch(Plane.XY.offset(5)):
            with Locations((-132.5, 55)):
                Rectangle(SKETCH5_W, SKETCH5_H)
        extrude(amount=-CUT_EXTRUDE2_DEPTH, mode=Mode.SUBTRACT)

    # Sketch6 → Cut-Extrude3 (cut)
    with SkipClean():  # the faces are left unmerged after this step: merging them gives an invalid solid
        with BuildSketch(Plane.XY.offset(5)):
            with Locations((-95, 82.775)):
                Circle(SKETCH6_R)
            with Locations((-80, 82.775)):
                Circle(SKETCH6_R)
            with Locations((-95, -32.225)):
                Circle(SKETCH6_R)
            with Locations((-65, 82.775)):
                Circle(SKETCH6_R)
        extrude(amount=-CUT_EXTRUDE3_DEPTH, mode=Mode.SUBTRACT)

    # Sketch7 → Boss-Extrude4 (add)
    with SkipClean():  # the faces are left unmerged after this step: merging them gives an invalid solid
        with BuildSketch(Plane.XY.offset(5)):
            with Locations((102.5, 152.225)):
                Rectangle(SKETCH7_W, SKETCH7_H)
        extrude(amount=-BOSS_EXTRUDE4_DEPTH)

    # Sketch8 → Boss-Extrude5 (add)
    with SkipClean():  # the faces are left unmerged after this step: merging them gives an invalid solid
        with BuildSketch(Plane.XY.offset(5)):
            with Locations((-80, -69.725)):
                Rectangle(SKETCH8_W, SKETCH8_H)
            with Locations((-2.5, -69.725)):
                Rectangle(SKETCH8_W, SKETCH8_H)
            with Locations((75, -69.725)):
                Rectangle(SKETCH8_W, SKETCH8_H)
            with Locations((75, 179.725)):
                Rectangle(SKETCH8_W, SKETCH8_H)
            with Locations((-2.5, 179.725)):
                Rectangle(SKETCH8_W, SKETCH8_H)
            with Locations((-80, 179.725)):
                Rectangle(SKETCH8_W, SKETCH8_H)
        extrude(amount=-BOSS_EXTRUDE5_DEPTH)

    # Sketch9 → Boss-Extrude6 (add)
    with BuildSketch(Plane(origin=(0, 0, 0), x_dir=(-1, 0, 0), z_dir=(0, 0, -1)).offset(BOSS_EXTRUDE6_START)):
        with Locations((0, 55)):
            Rectangle(SKETCH9_W, SKETCH9_H)
        with Locations(Location((59.5, 4.075, 0), (0, 0, 180))):
            Circle(SKETCH9_R, mode=Mode.SUBTRACT)
        with Locations(Location((24.5, -11.925, 0), (0, 0, 180))):
            Circle(SKETCH9_R, mode=Mode.SUBTRACT)
        with Locations((80.5, -49.925)):
            Circle(SKETCH9_R_2, mode=Mode.SUBTRACT)
        with Locations(Location((80.5, -30.925, 0), (0, 0, 180))):
            Circle(SKETCH9_R_2, mode=Mode.SUBTRACT)
        with Locations(Location((80.5, -11.925, 0), (0, 0, 180))):
            Circle(SKETCH9_R_2, mode=Mode.SUBTRACT)
    extrude(amount=BOSS_EXTRUDE6_DEPTH)

    # Sketch10 → Cut-Extrude4 (cut)
    with BuildSketch(Plane(origin=(0, 0, 0), x_dir=(-1, 0, 0), z_dir=(0, 0, -1))):
        with Locations((-45, 82.225)):
            Circle(SKETCH10_R)
        with Locations((-20, 82.225)):
            Circle(SKETCH10_R)
        with Locations((5, 82.225)):
            Circle(SKETCH10_R)
    extrude(amount=-CUT_EXTRUDE4_DEPTH, mode=Mode.SUBTRACT)

    # Sketch11 → Cut-Extrude5 (cut, through all)
    with BuildSketch(Plane(origin=(0, 0, 0), x_dir=(-1, 0, 0), z_dir=(0, 0, -1))):
        with Locations((-102.5, 107.225)):
            Circle(SKETCH11_R)
        with Locations(Location((-102.5, 2.775, 0), (0, 0, 180))):
            Circle(SKETCH11_R)
        with Locations((102.5, 2.775)):
            Circle(SKETCH11_R)
        with Locations(Location((102.5, 107.225, 0), (0, 0, 180))):
            Circle(SKETCH11_R)
    extrude(amount=-CUT_EXTRUDE5_DEPTH, mode=Mode.SUBTRACT)

    # Sketch12 → Cut-Extrude6 (cut)
    with BuildSketch(Plane(origin=(0, 177.225, 0), x_dir=(1, 0, 0), z_dir=(0, 1, 0))):
        with Locations(Location((-41.25, -2.5, 0), (0, 0, 270))):
            Circle(SKETCH12_R)
        with Locations(Location((36.25, -2.5, 0), (0, 0, 270))):
            Circle(SKETCH12_R)
    cut_extrude6 = extrude(amount=-CUT_EXTRUDE6_DEPTH, mode=Mode.SUBTRACT)

    # Mirror1: Cut-Extrude6 across plane
    add(cut_extrude6.mirror(Plane.ZX.offset(55)), mode=Mode.SUBTRACT)

    # Sketch13 → Boss-Extrude7 (add)
    with BuildSketch(Plane(origin=(0, 0, 0), x_dir=(-1, 0, 0), z_dir=(0, 0, -1))):
        with Locations((-18.62921432, 79.896589462)):
            Rectangle(SKETCH13_W, SKETCH13_H)
        with Locations((81.845523282, -14.081860775)):
            Rectangle(SKETCH13_W_2, SKETCH13_H_2)
        with Locations((40.616720798, -5.090395938)):
            Rectangle(SKETCH13_W_3, SKETCH13_H_3)
    extrude(amount=-BOSS_EXTRUDE7_DEPTH)

    # Sketch14 → Boss-Extrude8 (add)
    with BuildSketch(Plane.ZY.offset(105)):
        with Locations((2.5, 55)):
            Rectangle(SKETCH14_W, SKETCH14_H)
    extrude(amount=BOSS_EXTRUDE8_DEPTH)

    # Sketch15 → Cut-Extrude7 (cut)
    with BuildSketch(Plane(origin=(0, 0, 0), x_dir=(-1, 0, 0), z_dir=(0, 0, -1))):
        with Locations((102.5, 2.775)):
            Circle(SKETCH15_R)
        with Locations(Location((102.5, 107.225, 0), (0, 0, 180))):
            Circle(SKETCH15_R)
        with Locations((107.5, 2.775)):
            Circle(SKETCH15_R)
        with Locations((107.5, 107.225)):
            Circle(SKETCH15_R)
    extrude(amount=-CUT_EXTRUDE7_DEPTH, mode=Mode.SUBTRACT)

    # Sketch16 → Boss-Extrude9 (add)
    with BuildSketch(Plane(origin=(0, 0, 0), x_dir=(-1, 0, 0), z_dir=(0, 0, -1))):
        with Locations((102.5, 2.775)):
            Circle(SKETCH16_R)
        with Locations((102.5, 107.225)):
            Circle(SKETCH16_R)
    extrude(amount=-BOSS_EXTRUDE9_DEPTH)


solid = part.part
